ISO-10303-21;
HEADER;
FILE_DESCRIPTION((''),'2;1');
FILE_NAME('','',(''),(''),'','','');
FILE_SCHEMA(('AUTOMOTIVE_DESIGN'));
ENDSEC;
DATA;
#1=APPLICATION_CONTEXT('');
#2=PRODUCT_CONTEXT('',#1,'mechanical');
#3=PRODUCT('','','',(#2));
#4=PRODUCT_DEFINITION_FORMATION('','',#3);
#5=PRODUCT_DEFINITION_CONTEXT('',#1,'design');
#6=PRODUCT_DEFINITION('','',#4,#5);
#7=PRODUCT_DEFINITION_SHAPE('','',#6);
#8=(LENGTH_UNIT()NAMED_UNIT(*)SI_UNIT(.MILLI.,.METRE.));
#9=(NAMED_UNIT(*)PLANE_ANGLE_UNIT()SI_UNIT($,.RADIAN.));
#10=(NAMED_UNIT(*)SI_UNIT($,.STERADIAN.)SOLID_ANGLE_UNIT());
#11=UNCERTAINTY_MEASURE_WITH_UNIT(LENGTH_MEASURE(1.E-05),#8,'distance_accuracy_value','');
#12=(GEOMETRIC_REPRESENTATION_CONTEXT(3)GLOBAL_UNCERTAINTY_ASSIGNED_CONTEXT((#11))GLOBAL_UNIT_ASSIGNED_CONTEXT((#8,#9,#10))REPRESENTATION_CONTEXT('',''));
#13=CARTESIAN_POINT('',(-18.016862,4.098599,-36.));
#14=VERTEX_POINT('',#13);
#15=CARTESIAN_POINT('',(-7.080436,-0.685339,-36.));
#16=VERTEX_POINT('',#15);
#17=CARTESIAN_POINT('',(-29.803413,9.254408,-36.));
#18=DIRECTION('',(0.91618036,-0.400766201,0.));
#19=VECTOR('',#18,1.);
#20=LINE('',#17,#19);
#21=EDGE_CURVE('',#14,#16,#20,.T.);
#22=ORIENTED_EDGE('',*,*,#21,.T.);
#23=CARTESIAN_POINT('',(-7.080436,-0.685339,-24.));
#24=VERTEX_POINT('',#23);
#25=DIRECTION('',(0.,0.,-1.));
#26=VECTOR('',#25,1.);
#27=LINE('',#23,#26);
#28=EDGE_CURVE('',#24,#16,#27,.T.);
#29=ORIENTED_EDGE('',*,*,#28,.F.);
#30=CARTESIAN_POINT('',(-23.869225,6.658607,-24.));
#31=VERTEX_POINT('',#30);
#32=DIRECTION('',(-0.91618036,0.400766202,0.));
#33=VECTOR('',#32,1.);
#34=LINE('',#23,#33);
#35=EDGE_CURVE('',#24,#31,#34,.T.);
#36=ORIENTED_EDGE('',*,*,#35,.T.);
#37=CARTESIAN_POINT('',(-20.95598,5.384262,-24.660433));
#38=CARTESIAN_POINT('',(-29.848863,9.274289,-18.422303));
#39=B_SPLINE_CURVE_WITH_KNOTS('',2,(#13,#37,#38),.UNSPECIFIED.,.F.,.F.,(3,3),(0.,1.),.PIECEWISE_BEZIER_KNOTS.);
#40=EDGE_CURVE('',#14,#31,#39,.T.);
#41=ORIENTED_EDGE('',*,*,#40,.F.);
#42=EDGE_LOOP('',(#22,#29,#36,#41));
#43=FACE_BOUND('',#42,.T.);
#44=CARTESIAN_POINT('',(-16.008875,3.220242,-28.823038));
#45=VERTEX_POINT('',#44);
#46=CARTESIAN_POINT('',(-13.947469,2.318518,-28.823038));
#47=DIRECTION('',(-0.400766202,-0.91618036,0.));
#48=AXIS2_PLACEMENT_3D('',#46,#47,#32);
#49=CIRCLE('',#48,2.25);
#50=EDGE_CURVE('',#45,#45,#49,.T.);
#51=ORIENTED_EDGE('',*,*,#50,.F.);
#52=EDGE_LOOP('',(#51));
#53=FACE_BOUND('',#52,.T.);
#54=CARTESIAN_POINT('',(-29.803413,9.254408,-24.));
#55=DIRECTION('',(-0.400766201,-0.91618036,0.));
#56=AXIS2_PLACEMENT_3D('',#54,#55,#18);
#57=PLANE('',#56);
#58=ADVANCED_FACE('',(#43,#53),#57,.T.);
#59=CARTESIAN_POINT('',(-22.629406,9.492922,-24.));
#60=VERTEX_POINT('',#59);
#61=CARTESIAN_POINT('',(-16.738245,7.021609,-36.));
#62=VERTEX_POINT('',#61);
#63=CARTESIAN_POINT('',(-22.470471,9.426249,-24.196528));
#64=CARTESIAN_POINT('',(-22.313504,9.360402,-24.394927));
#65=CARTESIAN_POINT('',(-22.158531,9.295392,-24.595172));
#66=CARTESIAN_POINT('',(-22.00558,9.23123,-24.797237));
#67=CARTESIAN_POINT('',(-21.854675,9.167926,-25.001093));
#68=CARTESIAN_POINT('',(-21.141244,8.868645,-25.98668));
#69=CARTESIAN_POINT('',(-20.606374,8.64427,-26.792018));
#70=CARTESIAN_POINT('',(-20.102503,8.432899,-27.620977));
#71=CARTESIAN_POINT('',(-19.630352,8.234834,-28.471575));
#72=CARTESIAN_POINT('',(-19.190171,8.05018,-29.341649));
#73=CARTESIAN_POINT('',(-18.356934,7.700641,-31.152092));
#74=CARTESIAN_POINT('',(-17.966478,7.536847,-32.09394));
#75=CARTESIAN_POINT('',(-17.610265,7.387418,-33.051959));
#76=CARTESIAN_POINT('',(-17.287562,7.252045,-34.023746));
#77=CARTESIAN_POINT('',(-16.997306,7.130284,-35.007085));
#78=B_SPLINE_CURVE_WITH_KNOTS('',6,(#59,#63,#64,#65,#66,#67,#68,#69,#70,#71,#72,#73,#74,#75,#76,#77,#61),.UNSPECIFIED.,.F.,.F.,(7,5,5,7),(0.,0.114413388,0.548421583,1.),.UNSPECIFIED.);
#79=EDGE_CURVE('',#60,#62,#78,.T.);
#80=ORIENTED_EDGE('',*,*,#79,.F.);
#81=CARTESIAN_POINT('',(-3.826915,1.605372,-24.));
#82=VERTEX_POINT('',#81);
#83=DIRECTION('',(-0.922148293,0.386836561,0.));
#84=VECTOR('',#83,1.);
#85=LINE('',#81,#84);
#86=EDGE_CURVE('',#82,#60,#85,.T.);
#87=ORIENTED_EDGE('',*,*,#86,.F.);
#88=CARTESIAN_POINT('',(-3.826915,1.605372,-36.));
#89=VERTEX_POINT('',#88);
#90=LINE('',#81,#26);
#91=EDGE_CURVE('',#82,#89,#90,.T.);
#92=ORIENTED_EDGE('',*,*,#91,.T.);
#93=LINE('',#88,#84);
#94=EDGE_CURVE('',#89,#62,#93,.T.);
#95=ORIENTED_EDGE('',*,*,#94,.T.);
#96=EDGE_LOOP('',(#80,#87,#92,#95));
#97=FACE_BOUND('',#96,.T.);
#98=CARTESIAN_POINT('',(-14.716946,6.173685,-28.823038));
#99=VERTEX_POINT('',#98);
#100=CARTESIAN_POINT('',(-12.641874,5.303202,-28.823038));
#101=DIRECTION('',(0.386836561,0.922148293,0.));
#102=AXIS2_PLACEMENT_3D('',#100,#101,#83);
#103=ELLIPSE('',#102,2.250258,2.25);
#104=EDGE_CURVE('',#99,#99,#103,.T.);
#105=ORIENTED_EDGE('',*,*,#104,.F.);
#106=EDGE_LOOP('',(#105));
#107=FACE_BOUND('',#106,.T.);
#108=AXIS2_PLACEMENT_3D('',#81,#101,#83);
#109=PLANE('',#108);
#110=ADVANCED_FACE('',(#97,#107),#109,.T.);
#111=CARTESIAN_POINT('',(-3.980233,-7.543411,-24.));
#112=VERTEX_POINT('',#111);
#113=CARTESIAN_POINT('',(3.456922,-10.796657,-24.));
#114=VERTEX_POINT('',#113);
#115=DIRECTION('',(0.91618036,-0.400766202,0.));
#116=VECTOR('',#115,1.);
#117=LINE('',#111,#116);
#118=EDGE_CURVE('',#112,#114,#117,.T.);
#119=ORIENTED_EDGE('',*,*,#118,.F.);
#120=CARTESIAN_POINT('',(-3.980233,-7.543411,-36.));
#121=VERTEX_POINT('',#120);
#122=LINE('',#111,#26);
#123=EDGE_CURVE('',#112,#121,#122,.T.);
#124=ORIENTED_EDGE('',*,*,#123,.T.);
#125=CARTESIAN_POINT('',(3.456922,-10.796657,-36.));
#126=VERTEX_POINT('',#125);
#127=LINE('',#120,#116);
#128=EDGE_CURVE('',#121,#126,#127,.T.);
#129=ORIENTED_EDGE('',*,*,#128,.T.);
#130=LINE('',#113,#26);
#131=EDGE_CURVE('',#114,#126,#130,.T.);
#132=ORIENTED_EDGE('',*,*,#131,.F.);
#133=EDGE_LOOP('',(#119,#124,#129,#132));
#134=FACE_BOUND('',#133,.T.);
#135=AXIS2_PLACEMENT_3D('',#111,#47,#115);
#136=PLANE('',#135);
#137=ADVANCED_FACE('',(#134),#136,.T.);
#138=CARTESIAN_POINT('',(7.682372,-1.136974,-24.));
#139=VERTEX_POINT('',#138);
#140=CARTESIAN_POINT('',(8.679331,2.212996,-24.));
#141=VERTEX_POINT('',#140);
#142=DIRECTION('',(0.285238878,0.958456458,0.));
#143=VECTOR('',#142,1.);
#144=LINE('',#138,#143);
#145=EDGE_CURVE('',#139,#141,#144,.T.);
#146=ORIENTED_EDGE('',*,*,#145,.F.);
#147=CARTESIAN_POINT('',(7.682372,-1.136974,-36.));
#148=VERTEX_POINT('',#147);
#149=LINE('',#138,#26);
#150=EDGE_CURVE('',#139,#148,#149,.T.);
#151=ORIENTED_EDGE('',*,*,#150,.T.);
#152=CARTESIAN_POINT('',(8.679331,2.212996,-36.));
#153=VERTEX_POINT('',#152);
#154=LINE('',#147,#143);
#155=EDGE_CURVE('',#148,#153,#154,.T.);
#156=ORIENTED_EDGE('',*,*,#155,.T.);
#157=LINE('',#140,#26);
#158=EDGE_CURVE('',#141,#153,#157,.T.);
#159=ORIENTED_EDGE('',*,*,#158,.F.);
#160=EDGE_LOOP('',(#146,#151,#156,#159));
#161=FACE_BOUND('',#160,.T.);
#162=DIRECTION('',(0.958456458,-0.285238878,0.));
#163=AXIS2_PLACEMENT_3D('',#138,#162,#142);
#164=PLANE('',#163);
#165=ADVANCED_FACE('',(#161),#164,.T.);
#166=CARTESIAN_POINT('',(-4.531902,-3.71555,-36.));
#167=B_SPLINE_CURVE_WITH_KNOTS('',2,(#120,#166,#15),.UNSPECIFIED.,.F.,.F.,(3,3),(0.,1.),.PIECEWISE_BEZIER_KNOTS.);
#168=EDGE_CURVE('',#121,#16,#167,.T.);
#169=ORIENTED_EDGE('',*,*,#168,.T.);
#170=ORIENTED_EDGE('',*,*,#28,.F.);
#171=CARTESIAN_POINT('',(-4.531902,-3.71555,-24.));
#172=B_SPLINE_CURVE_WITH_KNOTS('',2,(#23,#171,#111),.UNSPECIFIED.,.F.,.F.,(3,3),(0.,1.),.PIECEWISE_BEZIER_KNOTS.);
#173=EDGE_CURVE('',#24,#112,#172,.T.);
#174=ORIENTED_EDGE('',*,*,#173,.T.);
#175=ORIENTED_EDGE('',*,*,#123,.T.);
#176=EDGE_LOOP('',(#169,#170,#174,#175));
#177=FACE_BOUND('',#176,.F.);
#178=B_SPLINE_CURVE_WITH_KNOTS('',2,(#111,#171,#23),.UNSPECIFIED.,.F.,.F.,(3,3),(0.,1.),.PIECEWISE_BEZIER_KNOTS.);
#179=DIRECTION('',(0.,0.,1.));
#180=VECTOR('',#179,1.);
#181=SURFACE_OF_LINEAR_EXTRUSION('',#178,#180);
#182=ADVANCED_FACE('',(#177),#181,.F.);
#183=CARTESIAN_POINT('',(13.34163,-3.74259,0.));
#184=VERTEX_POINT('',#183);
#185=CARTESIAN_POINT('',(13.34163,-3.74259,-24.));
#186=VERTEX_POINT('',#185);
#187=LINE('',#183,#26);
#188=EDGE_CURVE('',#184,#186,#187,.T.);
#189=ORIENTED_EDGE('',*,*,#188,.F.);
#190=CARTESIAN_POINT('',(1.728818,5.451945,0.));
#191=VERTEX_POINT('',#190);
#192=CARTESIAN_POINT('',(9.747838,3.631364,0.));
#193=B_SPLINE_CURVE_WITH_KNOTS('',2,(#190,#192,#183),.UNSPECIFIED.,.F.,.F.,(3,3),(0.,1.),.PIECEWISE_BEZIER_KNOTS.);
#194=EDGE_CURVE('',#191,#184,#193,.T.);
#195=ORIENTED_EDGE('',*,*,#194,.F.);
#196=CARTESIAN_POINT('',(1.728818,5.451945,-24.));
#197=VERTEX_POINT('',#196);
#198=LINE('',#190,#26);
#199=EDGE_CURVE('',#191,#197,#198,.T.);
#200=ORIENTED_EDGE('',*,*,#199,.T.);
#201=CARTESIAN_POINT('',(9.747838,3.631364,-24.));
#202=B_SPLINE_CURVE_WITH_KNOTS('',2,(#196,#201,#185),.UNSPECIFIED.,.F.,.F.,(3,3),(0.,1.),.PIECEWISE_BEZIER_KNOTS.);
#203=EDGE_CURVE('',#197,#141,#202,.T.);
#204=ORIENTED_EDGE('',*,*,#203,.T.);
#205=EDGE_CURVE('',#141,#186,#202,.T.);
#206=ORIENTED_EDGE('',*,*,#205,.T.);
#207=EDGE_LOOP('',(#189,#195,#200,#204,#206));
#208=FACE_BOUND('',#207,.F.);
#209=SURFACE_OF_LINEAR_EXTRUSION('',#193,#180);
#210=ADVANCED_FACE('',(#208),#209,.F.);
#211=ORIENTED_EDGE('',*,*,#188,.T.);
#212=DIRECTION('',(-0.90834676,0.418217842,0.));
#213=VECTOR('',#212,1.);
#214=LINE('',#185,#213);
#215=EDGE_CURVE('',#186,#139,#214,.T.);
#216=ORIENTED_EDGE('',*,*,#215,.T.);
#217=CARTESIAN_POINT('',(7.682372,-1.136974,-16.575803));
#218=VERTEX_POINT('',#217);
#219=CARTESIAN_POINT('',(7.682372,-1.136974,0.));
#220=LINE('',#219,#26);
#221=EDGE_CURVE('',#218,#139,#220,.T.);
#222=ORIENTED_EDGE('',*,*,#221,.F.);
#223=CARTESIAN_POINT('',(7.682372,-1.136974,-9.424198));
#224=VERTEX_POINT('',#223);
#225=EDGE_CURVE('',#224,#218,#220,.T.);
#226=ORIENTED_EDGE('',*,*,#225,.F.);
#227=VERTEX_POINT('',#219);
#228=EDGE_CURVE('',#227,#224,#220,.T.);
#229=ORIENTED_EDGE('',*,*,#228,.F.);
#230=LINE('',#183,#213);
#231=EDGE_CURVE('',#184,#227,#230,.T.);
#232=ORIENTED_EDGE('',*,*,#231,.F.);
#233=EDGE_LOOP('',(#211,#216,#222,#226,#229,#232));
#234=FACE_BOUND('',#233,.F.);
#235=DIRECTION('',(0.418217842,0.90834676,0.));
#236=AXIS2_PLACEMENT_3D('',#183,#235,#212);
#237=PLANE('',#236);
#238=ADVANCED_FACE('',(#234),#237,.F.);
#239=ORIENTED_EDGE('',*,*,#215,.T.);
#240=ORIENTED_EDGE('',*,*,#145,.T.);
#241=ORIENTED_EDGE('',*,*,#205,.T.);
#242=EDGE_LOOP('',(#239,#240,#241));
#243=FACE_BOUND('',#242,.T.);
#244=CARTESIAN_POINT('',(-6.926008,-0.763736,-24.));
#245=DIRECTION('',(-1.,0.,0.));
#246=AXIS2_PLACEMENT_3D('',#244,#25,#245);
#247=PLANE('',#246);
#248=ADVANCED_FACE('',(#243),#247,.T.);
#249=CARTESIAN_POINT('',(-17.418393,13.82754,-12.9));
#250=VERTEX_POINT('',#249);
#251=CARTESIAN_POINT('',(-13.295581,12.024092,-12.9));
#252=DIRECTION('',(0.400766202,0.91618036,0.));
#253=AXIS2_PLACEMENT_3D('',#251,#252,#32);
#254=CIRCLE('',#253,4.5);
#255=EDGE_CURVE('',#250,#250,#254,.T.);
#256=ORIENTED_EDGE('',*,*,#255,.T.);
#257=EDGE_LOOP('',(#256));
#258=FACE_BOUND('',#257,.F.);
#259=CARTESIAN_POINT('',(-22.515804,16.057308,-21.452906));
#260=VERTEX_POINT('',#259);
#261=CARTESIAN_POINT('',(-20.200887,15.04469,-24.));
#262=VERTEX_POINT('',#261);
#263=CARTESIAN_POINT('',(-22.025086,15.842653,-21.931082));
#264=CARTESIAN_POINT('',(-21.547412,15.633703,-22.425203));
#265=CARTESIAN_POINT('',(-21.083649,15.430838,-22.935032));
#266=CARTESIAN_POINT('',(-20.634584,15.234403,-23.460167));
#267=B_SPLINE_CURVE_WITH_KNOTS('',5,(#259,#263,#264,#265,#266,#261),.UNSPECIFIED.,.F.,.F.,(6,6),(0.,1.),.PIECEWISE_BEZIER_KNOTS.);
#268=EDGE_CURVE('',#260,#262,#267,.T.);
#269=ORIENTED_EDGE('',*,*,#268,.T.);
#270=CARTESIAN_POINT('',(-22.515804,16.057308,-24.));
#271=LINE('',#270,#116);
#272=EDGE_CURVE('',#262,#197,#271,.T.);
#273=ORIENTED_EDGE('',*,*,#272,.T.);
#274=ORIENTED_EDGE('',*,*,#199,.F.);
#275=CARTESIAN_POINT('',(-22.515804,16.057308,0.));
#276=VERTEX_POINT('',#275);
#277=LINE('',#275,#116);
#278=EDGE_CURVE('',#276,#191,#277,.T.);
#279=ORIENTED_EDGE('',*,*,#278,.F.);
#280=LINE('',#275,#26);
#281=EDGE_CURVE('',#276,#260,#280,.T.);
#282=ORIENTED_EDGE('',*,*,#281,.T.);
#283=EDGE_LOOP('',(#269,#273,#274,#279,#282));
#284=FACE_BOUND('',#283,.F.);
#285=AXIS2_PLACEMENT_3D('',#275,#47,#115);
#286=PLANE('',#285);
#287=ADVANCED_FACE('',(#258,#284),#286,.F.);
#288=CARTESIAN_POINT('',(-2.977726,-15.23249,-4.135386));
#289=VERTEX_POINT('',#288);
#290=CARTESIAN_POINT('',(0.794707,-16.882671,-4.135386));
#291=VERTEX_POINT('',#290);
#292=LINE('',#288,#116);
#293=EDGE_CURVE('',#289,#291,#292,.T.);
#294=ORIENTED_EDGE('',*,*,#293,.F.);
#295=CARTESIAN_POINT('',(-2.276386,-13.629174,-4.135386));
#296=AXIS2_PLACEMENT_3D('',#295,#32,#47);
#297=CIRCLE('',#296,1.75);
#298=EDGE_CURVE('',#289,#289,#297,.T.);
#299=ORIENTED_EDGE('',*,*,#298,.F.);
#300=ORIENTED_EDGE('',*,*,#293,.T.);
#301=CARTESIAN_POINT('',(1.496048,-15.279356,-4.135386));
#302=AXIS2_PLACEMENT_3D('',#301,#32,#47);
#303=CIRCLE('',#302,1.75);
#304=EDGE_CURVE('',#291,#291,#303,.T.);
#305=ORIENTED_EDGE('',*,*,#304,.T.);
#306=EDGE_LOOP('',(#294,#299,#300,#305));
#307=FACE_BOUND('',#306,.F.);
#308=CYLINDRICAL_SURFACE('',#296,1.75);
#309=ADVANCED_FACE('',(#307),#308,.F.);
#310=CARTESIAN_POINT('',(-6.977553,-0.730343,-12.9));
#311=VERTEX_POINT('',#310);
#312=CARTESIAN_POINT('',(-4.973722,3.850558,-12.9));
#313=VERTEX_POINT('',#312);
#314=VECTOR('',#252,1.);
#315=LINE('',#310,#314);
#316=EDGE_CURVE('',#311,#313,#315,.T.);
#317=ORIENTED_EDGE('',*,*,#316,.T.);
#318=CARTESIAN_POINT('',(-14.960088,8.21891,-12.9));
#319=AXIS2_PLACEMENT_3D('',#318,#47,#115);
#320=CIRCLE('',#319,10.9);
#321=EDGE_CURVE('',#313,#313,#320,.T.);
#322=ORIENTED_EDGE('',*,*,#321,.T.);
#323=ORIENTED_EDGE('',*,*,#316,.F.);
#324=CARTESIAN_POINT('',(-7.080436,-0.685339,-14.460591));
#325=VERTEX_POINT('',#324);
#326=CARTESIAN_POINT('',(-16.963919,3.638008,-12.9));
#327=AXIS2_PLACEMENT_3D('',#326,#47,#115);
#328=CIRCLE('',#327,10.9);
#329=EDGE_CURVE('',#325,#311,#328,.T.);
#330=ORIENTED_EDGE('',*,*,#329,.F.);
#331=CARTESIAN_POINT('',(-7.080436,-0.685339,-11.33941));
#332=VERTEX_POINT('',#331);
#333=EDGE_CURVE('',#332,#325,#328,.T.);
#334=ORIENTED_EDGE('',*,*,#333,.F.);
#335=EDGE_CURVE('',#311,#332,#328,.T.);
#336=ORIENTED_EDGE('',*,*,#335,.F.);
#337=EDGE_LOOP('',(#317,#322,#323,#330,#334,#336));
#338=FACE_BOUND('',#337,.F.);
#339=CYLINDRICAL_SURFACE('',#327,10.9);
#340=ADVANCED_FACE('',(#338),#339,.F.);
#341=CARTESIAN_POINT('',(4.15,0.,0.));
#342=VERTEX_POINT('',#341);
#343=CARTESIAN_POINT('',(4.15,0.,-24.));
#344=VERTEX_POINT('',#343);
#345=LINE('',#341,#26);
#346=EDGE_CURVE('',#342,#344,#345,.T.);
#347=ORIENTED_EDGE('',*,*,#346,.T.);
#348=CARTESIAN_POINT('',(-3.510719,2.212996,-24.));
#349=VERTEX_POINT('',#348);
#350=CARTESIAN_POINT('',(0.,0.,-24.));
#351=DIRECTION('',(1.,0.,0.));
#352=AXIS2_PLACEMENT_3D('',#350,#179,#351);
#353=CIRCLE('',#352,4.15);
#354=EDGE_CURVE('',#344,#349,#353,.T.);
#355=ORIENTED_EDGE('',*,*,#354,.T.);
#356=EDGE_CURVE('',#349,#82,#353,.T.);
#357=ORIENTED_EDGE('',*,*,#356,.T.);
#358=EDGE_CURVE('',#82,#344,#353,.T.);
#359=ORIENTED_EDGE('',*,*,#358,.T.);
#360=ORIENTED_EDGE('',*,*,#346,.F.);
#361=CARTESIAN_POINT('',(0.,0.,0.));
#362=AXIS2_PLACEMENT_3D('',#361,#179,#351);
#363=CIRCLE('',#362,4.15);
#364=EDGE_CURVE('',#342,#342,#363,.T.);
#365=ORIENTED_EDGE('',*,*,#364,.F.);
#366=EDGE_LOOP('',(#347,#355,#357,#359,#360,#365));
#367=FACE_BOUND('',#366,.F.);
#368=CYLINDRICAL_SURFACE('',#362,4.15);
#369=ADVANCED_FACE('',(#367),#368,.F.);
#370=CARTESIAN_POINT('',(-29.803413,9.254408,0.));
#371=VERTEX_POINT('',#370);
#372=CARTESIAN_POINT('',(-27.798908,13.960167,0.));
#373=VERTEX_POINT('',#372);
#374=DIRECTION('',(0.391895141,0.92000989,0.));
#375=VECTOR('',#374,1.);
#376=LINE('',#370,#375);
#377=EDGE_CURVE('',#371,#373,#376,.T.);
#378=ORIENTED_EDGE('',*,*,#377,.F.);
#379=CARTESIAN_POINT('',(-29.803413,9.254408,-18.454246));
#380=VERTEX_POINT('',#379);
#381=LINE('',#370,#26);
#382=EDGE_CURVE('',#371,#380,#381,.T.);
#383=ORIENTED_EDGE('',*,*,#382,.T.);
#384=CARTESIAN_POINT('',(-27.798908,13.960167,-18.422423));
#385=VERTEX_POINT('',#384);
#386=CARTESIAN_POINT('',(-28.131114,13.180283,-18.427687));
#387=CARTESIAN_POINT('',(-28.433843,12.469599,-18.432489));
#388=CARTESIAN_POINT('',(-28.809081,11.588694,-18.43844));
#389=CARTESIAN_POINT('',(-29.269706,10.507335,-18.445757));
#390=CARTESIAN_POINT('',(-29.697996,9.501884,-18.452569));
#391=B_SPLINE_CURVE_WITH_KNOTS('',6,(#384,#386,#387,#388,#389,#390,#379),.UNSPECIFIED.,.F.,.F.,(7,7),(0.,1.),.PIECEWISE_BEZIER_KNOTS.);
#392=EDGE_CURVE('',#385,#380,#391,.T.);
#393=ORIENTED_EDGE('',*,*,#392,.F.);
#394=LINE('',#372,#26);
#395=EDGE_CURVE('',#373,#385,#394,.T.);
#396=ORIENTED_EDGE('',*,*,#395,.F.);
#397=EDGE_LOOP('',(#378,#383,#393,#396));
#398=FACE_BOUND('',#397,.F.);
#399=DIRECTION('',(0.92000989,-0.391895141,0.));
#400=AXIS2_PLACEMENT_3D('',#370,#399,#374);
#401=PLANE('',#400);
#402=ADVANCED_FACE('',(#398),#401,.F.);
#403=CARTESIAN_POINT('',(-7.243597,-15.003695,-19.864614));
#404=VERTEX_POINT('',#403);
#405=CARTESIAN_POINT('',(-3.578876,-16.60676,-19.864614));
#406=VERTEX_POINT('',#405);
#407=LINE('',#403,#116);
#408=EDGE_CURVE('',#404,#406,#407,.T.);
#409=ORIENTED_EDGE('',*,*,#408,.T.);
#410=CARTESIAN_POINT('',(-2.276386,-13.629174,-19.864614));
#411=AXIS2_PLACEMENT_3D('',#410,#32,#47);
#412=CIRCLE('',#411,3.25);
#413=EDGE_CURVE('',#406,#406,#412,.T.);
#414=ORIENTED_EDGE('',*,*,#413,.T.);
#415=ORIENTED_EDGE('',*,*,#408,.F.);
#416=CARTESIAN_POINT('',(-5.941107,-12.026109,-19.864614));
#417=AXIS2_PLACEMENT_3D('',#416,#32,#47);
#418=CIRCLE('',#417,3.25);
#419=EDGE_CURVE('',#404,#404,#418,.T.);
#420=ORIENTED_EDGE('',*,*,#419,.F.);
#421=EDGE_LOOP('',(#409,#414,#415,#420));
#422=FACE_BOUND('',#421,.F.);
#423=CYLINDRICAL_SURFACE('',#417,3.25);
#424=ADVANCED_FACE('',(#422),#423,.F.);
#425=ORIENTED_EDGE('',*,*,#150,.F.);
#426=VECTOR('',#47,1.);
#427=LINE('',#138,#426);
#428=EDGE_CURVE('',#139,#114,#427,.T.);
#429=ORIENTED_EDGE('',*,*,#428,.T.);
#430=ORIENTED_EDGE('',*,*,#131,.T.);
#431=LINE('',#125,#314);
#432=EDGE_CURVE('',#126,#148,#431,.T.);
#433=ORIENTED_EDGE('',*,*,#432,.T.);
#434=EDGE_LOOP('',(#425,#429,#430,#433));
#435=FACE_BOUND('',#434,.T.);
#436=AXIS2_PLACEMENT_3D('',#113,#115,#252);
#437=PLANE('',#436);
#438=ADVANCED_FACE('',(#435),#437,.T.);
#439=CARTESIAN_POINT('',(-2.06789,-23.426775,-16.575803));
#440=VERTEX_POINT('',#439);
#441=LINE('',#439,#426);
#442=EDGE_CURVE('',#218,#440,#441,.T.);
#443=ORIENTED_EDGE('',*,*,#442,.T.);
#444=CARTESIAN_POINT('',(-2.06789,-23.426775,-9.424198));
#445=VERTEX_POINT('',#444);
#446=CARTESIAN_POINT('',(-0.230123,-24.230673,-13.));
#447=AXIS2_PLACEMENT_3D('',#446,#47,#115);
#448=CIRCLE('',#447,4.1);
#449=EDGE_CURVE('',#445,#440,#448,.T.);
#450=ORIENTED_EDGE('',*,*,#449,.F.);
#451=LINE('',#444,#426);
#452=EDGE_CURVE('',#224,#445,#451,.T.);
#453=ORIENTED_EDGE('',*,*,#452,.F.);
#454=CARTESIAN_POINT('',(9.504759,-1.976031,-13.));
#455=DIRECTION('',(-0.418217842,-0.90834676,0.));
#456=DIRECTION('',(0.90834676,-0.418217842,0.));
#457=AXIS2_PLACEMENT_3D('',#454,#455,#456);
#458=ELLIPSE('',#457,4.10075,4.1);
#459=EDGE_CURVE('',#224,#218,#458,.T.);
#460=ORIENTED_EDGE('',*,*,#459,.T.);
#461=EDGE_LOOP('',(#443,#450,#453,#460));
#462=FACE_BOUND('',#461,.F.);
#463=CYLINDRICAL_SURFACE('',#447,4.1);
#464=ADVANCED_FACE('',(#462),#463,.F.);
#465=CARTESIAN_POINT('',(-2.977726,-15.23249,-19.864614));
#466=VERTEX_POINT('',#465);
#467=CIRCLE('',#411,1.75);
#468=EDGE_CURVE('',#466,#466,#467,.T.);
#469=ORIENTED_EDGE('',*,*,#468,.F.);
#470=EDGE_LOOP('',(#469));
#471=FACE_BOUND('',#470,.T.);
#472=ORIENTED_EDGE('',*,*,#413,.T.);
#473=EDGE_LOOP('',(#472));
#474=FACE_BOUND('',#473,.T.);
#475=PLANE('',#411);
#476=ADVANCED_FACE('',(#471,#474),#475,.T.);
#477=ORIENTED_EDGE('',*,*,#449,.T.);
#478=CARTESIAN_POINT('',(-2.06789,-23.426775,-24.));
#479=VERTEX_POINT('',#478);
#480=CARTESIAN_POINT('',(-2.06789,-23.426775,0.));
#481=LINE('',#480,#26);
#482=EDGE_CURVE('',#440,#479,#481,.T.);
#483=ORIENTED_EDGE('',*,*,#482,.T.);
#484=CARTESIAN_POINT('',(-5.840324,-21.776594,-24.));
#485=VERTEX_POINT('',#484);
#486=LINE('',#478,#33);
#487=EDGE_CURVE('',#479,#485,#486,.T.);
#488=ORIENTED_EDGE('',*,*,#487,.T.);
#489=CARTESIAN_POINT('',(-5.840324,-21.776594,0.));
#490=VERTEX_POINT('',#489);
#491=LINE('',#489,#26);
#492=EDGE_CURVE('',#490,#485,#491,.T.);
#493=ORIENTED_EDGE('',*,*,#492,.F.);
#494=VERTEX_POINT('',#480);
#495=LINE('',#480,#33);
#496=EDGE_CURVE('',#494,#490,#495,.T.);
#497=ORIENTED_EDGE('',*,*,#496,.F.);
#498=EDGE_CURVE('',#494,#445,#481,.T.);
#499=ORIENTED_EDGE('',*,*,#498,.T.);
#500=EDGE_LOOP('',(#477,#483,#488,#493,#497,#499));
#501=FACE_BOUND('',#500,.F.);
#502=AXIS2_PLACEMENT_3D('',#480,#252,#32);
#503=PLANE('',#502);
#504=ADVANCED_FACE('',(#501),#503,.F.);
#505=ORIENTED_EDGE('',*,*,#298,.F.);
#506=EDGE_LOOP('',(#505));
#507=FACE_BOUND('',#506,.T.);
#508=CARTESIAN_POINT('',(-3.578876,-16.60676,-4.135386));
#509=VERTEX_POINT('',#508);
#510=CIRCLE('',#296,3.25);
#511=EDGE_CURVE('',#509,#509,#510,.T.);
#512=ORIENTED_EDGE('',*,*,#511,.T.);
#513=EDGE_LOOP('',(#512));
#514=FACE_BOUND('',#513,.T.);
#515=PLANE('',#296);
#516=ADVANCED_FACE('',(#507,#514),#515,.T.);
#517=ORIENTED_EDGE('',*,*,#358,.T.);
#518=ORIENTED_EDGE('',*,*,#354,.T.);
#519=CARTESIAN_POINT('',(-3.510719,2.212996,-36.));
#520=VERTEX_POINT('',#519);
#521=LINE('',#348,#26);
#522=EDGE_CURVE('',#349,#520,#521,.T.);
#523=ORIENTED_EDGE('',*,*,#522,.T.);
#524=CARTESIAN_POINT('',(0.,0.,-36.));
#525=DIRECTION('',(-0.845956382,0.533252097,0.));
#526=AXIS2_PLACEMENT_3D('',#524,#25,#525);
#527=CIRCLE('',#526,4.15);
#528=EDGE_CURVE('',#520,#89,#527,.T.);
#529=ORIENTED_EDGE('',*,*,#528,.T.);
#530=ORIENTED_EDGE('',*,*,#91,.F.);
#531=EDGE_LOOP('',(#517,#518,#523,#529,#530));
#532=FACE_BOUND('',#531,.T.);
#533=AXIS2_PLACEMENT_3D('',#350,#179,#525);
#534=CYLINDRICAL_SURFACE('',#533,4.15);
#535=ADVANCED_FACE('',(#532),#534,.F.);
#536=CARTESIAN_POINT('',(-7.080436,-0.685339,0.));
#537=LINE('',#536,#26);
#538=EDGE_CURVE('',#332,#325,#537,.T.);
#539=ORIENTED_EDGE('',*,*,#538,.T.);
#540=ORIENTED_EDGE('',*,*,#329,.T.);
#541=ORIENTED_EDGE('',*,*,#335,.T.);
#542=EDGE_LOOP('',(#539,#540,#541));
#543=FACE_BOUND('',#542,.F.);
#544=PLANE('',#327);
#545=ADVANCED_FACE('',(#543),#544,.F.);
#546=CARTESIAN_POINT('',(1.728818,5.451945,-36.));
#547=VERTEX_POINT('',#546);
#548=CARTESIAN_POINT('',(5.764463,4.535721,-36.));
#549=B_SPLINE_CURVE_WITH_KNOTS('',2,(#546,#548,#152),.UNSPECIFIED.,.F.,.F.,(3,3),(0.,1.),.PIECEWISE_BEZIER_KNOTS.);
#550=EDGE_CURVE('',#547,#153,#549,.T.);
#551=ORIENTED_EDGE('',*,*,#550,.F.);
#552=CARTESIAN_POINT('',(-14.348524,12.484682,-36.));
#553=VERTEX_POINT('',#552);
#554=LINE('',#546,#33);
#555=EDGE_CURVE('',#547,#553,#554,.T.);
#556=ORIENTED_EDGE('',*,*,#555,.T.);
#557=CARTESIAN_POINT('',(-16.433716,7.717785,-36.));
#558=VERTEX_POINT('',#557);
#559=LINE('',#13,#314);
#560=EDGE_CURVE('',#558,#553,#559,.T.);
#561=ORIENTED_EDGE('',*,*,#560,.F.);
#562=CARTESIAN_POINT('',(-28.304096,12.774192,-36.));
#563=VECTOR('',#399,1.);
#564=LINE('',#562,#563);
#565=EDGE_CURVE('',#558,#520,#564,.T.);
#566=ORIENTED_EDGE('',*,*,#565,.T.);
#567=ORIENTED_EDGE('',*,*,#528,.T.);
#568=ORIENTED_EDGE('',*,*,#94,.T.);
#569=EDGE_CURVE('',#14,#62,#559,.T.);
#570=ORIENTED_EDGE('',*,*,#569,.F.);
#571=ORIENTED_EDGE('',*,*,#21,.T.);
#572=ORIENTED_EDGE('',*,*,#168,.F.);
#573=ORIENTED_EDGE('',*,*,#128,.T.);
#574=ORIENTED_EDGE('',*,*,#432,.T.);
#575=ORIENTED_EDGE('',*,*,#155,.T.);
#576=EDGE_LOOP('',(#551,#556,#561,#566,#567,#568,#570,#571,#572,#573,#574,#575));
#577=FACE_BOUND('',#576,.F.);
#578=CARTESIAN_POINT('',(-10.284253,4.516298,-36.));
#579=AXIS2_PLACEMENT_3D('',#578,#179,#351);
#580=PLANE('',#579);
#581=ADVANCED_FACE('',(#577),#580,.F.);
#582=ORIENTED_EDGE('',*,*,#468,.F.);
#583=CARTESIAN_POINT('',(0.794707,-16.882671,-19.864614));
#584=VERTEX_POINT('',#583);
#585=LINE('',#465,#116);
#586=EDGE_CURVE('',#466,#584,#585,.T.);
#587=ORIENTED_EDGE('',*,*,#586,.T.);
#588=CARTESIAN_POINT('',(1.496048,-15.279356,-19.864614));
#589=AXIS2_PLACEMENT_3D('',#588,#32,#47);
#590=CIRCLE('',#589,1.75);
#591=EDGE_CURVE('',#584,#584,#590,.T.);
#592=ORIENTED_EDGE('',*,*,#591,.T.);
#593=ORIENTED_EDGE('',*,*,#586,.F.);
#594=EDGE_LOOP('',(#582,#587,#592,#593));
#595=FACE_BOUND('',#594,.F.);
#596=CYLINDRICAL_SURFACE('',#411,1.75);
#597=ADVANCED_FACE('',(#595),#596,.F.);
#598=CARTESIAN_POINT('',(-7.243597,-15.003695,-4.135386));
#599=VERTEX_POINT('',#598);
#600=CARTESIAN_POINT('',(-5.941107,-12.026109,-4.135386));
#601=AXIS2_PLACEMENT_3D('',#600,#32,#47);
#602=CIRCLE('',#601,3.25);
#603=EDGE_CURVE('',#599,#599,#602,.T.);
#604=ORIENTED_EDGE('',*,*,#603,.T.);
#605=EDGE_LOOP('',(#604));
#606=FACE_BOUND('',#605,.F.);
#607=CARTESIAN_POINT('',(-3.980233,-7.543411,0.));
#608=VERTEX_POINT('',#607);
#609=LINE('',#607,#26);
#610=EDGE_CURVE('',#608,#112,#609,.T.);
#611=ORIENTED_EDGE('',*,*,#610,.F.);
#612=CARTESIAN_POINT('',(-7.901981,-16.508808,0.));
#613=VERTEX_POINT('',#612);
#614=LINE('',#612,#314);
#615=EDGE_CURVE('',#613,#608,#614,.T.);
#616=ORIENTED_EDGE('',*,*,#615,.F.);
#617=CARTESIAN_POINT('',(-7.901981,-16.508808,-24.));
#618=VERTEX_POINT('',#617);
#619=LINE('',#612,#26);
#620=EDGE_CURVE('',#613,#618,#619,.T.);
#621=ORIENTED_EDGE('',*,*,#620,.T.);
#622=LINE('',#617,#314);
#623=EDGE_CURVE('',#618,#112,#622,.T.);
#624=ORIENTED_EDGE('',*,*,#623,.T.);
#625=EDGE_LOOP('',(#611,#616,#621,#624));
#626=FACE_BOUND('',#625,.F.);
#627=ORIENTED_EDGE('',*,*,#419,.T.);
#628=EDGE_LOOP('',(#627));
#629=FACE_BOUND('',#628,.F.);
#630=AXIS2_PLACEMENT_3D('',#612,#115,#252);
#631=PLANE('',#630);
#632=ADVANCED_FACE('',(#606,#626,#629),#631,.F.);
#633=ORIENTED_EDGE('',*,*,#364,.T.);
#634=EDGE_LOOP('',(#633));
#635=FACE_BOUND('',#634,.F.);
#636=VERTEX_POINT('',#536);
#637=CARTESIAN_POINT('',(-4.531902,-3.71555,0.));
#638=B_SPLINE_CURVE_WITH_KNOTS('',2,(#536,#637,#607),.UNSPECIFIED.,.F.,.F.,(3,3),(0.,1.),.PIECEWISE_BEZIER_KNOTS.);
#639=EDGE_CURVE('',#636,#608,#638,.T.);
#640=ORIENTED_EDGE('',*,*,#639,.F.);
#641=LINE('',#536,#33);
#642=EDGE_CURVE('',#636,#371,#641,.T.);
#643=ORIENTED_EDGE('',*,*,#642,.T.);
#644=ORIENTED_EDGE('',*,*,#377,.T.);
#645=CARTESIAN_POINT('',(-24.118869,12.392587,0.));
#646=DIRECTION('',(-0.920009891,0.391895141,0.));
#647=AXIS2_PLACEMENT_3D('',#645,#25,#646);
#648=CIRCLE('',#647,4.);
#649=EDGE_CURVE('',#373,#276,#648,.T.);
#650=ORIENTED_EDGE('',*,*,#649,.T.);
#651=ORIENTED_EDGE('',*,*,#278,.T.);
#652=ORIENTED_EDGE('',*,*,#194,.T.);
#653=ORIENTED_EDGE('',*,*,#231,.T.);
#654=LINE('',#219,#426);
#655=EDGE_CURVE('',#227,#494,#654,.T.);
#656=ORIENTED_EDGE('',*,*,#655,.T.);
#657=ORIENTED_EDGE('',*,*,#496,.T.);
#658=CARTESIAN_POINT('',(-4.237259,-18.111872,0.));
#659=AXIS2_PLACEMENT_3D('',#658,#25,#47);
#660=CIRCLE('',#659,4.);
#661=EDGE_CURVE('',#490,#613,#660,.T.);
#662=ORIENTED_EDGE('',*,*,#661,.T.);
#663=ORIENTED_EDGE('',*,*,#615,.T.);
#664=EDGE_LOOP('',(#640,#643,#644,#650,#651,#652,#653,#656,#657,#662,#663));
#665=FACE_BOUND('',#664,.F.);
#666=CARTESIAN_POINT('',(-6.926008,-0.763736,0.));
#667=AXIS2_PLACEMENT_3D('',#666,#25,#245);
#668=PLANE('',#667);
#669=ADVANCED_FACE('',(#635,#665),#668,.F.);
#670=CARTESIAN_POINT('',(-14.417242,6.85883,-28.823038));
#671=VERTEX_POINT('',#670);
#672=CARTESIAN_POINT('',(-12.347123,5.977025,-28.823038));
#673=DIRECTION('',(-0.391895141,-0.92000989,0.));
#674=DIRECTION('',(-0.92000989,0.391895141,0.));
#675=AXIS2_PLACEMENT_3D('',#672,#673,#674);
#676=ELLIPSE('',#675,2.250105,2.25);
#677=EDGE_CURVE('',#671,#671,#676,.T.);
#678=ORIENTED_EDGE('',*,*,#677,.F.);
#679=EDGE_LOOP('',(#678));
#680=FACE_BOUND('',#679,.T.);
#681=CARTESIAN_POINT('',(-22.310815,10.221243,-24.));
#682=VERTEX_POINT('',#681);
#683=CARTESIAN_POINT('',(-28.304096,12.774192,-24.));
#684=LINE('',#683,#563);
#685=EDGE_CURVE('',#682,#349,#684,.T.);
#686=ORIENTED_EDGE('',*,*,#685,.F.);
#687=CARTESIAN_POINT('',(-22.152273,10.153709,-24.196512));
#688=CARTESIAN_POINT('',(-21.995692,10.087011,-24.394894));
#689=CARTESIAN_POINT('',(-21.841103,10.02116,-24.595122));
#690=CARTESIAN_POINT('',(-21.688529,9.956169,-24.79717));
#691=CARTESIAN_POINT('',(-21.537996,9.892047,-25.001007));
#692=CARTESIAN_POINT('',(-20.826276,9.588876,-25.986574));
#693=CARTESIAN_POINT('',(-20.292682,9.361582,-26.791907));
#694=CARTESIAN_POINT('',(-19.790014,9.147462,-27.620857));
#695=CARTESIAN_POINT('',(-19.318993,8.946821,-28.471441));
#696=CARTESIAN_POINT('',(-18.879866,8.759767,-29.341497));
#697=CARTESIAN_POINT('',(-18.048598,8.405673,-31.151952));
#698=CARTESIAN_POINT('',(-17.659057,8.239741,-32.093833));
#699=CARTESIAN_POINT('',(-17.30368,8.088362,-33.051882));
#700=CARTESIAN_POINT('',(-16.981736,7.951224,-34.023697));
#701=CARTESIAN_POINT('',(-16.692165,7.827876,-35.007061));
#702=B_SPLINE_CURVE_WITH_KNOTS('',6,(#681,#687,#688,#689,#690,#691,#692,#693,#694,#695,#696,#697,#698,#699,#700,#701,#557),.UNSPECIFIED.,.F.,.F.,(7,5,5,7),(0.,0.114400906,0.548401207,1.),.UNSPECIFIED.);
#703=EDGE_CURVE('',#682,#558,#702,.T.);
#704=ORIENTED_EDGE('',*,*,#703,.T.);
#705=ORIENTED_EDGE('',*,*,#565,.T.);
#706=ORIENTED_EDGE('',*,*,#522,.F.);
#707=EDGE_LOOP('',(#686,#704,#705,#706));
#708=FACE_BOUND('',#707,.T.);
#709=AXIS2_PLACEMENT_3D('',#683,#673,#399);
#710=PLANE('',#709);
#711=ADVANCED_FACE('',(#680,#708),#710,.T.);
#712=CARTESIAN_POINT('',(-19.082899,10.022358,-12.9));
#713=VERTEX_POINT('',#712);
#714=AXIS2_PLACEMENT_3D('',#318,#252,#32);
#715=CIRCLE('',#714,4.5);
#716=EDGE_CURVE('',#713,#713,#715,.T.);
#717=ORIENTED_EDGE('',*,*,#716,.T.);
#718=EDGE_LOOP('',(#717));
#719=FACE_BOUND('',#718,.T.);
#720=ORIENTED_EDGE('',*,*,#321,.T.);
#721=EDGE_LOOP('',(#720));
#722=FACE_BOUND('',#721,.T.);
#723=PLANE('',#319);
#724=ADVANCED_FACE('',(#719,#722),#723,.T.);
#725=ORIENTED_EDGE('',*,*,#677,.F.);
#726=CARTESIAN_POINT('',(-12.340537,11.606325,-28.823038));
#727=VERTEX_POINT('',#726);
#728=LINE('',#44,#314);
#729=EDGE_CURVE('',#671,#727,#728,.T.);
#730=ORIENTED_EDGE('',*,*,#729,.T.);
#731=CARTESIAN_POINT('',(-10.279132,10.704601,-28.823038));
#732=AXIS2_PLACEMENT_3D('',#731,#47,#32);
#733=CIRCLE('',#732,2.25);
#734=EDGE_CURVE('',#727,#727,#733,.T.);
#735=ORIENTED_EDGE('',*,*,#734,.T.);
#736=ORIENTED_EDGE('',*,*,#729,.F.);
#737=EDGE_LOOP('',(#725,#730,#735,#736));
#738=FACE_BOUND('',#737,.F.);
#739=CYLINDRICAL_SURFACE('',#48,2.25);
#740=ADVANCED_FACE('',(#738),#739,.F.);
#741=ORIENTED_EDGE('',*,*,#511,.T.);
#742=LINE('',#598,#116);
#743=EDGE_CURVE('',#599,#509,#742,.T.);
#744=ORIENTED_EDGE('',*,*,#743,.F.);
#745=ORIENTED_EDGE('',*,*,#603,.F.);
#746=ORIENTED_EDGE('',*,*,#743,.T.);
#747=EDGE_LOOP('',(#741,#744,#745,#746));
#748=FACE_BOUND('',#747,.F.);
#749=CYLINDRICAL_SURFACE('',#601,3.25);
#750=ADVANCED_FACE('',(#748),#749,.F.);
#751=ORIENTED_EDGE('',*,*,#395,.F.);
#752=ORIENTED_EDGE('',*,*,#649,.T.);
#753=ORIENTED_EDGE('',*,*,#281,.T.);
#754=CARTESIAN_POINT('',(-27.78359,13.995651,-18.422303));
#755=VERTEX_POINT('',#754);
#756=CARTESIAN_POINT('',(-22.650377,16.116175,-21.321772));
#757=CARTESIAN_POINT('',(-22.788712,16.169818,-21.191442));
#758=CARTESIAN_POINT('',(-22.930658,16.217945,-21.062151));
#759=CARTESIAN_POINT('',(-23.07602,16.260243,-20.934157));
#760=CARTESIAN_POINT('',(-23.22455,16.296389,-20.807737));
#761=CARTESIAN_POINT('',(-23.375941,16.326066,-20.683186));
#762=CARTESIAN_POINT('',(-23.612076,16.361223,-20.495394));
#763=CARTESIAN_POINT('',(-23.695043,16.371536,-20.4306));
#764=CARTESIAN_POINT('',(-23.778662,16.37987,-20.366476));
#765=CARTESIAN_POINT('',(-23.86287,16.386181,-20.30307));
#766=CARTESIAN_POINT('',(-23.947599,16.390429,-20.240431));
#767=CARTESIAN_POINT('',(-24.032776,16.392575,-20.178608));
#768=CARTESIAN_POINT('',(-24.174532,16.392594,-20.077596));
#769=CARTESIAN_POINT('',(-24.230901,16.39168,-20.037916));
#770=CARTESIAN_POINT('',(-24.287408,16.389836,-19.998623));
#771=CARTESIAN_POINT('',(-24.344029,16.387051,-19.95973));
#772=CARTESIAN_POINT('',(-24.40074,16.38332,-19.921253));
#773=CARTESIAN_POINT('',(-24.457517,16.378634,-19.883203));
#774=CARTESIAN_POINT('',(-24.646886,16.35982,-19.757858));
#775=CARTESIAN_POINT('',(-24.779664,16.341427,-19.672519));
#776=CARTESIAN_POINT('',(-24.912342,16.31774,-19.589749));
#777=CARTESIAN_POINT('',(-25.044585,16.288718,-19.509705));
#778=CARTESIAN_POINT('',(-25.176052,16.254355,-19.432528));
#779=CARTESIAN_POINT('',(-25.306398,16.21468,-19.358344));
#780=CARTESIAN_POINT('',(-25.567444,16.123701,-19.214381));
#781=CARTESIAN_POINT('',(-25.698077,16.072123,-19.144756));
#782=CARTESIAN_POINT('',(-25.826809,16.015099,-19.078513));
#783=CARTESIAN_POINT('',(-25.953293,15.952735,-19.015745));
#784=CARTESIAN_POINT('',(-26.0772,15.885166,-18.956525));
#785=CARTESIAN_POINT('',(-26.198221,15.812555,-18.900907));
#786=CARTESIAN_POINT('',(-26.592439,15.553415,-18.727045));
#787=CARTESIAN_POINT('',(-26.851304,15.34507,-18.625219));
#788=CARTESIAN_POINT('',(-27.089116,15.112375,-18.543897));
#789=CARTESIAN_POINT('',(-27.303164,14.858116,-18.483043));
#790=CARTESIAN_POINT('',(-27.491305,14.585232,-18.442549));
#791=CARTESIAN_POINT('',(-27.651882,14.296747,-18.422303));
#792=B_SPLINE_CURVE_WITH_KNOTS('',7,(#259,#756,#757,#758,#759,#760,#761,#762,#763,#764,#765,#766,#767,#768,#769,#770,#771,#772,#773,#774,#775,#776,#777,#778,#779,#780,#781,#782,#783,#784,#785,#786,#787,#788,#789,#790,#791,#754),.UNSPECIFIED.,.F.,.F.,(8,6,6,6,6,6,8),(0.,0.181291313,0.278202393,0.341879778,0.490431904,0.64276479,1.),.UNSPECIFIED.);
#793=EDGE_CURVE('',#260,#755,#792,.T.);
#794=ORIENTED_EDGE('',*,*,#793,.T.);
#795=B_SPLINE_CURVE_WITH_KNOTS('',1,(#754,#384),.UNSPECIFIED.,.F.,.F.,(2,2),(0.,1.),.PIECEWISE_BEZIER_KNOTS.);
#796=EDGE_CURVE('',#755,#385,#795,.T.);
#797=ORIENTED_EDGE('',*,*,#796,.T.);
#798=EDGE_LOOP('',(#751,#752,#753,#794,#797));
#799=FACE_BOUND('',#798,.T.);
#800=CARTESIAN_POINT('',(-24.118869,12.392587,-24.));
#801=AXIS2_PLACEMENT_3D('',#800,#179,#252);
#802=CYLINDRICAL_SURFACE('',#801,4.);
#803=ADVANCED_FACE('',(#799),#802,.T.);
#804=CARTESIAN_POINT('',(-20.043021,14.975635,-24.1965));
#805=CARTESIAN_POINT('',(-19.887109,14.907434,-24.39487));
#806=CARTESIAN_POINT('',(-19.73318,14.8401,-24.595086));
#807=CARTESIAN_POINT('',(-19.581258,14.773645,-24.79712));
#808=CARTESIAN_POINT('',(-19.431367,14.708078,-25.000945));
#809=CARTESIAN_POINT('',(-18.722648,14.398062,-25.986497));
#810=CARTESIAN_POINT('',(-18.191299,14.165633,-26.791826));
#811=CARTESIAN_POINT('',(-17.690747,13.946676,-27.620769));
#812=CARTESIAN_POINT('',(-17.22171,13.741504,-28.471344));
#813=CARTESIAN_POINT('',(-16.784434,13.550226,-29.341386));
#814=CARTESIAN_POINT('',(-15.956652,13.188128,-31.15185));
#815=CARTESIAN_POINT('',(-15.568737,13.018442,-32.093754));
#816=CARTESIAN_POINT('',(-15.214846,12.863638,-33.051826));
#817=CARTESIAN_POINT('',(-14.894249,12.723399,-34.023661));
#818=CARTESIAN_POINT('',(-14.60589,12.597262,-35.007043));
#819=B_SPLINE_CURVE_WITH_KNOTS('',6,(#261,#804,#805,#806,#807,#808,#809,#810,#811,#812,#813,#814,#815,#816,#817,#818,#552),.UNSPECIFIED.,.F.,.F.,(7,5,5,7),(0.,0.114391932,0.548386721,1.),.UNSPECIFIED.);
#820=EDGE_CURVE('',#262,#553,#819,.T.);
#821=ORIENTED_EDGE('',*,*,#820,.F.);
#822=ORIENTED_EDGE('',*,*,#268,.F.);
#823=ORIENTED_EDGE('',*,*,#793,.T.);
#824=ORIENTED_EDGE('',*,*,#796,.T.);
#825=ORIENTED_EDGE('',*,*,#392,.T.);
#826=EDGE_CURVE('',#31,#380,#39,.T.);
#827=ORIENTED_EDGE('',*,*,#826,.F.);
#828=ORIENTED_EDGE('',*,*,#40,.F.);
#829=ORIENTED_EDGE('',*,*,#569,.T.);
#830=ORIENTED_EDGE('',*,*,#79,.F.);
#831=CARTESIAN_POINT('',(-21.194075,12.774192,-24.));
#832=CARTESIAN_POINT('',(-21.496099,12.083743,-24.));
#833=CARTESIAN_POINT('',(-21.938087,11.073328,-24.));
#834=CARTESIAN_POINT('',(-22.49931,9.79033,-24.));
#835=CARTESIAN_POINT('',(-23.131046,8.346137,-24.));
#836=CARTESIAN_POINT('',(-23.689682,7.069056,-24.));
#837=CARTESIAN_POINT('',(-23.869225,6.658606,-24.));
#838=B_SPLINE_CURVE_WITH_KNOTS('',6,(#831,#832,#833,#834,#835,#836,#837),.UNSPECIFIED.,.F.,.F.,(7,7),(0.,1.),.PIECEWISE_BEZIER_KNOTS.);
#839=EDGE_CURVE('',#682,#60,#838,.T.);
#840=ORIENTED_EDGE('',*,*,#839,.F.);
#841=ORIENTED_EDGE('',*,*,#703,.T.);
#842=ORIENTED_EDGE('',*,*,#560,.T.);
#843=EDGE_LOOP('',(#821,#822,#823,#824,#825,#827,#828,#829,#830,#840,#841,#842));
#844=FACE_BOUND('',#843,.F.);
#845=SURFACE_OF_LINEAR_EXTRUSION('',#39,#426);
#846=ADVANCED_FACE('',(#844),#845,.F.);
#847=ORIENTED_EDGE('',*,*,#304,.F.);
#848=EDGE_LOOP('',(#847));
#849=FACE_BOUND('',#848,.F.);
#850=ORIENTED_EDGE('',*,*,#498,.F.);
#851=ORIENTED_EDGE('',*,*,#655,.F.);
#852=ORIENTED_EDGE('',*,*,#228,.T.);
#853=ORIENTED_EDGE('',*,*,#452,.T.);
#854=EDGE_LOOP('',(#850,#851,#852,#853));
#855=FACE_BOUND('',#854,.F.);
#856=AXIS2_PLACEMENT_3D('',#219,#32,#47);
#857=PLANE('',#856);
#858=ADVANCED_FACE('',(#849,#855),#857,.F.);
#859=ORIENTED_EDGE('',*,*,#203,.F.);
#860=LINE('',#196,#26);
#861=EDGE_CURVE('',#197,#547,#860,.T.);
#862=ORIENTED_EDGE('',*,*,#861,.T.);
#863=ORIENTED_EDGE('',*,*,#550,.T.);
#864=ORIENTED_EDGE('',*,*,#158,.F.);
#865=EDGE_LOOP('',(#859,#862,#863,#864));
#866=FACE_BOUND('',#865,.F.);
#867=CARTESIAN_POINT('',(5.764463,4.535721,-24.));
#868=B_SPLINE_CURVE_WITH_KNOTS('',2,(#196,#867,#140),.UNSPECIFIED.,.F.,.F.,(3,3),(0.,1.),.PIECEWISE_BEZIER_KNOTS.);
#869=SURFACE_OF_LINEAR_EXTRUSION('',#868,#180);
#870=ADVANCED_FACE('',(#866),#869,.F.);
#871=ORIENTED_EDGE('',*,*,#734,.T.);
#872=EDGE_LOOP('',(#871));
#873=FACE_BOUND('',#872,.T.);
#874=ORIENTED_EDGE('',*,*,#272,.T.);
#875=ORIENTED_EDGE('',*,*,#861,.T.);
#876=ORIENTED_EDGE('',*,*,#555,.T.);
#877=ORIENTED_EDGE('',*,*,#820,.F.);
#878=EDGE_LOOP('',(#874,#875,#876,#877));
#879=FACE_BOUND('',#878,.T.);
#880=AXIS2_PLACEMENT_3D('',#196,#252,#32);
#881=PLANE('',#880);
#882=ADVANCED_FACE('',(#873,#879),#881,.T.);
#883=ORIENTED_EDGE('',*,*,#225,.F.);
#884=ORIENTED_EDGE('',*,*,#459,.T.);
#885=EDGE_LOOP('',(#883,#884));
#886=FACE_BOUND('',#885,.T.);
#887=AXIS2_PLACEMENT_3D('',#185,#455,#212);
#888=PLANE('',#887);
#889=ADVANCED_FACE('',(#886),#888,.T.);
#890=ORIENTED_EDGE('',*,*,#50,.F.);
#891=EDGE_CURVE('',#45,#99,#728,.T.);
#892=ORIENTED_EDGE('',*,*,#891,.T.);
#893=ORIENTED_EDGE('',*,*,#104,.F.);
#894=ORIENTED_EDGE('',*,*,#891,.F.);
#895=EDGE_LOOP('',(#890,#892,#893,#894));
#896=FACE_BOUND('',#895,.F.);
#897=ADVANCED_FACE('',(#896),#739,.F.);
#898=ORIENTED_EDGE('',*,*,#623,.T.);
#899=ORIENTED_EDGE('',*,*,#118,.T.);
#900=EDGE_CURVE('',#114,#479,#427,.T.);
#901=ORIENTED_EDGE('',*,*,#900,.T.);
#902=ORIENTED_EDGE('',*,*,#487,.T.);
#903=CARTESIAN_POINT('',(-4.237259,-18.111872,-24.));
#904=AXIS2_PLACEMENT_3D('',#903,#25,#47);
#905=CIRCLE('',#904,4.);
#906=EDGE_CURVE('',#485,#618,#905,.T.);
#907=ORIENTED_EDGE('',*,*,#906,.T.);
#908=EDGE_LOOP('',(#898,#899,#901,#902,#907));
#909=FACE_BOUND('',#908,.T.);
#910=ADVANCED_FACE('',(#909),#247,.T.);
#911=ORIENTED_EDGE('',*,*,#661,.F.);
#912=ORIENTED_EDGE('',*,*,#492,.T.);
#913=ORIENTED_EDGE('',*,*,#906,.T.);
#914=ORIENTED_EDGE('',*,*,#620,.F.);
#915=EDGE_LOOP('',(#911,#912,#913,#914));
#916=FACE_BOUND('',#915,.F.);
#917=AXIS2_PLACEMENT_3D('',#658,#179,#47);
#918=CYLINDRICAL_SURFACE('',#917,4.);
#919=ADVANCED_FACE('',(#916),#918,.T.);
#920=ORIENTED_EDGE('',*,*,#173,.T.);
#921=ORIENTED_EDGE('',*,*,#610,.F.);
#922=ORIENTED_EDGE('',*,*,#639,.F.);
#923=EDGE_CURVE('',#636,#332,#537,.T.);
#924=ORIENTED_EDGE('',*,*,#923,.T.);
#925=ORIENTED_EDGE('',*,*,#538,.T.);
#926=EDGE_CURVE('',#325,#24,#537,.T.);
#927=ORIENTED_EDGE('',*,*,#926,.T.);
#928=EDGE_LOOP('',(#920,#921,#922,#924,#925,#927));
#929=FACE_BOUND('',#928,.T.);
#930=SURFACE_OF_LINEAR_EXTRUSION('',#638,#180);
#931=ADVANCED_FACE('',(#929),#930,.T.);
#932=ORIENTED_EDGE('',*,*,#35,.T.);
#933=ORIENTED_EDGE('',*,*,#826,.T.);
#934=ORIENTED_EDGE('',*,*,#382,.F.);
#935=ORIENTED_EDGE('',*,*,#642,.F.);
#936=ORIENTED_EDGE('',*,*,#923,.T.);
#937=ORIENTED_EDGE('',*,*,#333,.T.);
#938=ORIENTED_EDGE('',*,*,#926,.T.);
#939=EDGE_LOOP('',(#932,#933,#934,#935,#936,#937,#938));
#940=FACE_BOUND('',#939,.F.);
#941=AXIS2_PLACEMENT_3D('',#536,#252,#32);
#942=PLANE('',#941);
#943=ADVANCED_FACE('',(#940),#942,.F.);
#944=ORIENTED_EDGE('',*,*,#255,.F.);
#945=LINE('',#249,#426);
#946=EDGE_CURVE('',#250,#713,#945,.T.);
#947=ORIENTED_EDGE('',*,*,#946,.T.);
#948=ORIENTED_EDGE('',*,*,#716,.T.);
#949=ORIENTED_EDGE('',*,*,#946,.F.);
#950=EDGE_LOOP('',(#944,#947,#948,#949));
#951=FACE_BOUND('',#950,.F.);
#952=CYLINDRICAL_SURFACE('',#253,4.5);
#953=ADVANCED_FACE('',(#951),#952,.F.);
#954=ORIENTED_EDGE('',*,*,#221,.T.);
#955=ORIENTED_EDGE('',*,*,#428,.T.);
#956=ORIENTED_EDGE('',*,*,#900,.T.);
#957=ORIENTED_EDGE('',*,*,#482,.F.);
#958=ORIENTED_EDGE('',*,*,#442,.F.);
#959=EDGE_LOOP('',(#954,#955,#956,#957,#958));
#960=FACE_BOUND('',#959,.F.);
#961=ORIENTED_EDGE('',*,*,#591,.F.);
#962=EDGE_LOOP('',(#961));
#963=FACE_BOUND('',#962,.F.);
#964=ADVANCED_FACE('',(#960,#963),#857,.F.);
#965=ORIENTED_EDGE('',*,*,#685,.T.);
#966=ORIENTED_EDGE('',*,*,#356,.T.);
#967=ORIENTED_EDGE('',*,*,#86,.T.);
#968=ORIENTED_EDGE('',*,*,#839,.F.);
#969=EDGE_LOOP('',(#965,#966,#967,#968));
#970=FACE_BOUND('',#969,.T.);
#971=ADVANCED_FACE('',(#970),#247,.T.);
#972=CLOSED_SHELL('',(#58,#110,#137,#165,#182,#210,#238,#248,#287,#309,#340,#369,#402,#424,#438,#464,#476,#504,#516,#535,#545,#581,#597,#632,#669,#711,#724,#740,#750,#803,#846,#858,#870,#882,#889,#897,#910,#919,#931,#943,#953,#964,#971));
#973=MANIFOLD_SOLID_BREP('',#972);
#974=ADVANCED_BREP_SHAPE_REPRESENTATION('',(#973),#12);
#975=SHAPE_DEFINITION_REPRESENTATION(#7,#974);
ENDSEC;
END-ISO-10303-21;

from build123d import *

# Parameters (mm, degrees)
SKETCH1_R           = 4.15
BOSS_EXTRUDE1_DEPTH = 24
BOSS_EXTRUDE2_DEPTH = 12
SKETCH4_R           = 2.25
CUT_EXTRUDE1_DEPTH  = 51.135027226
CUT_EXTRUDE2_DEPTH  = 51.135027226
SKETCH6_R           = 10.9
CUT_EXTRUDE3_DEPTH  = 5
SKETCH7_R           = 4.5
CUT_EXTRUDE4_DEPTH  = 5
CUT_EXTRUDE5_REACH  = 58.104
SKETCH8_R           = 4.1
SKETCH10_R          = 3.25
CUT_EXTRUDE6_DEPTH  = 4
SKETCH11_R          = 1.75
CUT_EXTRUDE7_DEPTH  = 14


with BuildPart() as part:
    # Sketch1 → Boss-Extrude1 (new body)
    with BuildSketch(Plane.XY):
        with BuildLine():
            Line((13.341629993, -3.742589758), (7.682372306, -1.136974107))
            Line((7.682372306, -1.136974107), (-2.0678902, -23.426775412))
            Line((-2.0678902, -23.426775412), (-5.840324092, -21.776593778))
            ThreePointArc((-5.840324092, -21.776593778), (-7.962146661, -19.569683724), (-7.901980723, -16.508807532))
            Line((-7.901980723, -16.508807532), (-3.98023327, -7.54341081))
            add(Edge.make_bspline(
                [(-7.080436324, -0.68533899), (-4.531901983, -3.715550368), (-3.98023327, -7.54341081)],
                knots=[0, 0, 0, 1, 1, 1], degree=2))
            Line((-7.080436324, -0.68533899), (-29.803412918, 9.254408057))
            Line((-29.803412918, 9.254408057), (-27.798908258, 13.960167121))
            ThreePointArc((-27.798908258, 13.960167121), (-25.594658653, 16.110387521), (-22.515803889, 16.057307996))
            Line((-22.515803889, 16.057307996), (1.72881799, 5.451945282))
            add(Edge.make_bspline(
                [(1.72881799, 5.451945282), (9.747838199, 3.631364235), (13.341629993, -3.742589758)],
                knots=[0, 0, 0, 1, 1, 1], degree=2))
        make_face()
        Circle(SKETCH1_R, mode=Mode.SUBTRACT)
    extrude(amount=-BOSS_EXTRUDE1_DEPTH)

    # Sketch3 → Boss-Extrude2 (add)
    with BuildSketch(Plane(origin=(0, 0, -24), x_dir=(-1, 0, 0), z_dir=(0, 0, -1))):
        with BuildLine():
            Line((-7.682372306, -1.136974107), (-8.679331285, 2.212996201))
            add(Edge.make_bspline(
                [(-1.728818003, 5.451945279), (-5.764462803, 4.535721319), (-8.679331285, 2.212996201)],
                knots=[0, 0, 0, 1, 1, 1], degree=2))
            Line((-1.728818003, 5.451945279), (22.515803889, 16.057307996))
            ThreePointArc((22.515803889, 16.057307996), (25.594658653, 16.110387521), (27.798908258, 13.960167121))
            Line((27.798908258, 13.960167121), (28.304096394, 12.774191506))
            Line((28.304096394, 12.774191506), (3.510718988, 2.212996201))
            ThreePointArc((3.510718988, 2.212996201), (-3.681374953, -1.915718783), (3.826915418, 1.605371728))
            Line((3.826915418, 1.605371728), (28.62962492, 12.009983349))
            Line((28.62962492, 12.009983349), (29.803412918, 9.254408057))
            Line((29.803412918, 9.254408057), (7.080436358, -0.685338949))
            add(Edge.make_bspline(
                [(3.98023327, -7.54341081), (4.531901987, -3.715550342), (7.080436358, -0.685338949)],
                knots=[0, 0, 0, 1, 1, 1], degree=2))
            Line((3.98023327, -7.54341081), (-3.456922061, -10.796657252))
            Line((-3.456922061, -10.796657252), (-7.682372306, -1.136974107))
        make_face()
    extrude(amount=BOSS_EXTRUDE2_DEPTH)

    # Sketch4 → Cut-Extrude1 (cut, through all)
    with BuildSketch(Plane(origin=(-1.388852746, -3.17501726, 0), x_dir=(0.9161803596748023, -0.40076620185109174, 0), z_dir=(-0.4007662018510917, -0.9161803596748022, 0))):
        with Locations(Location((-13.70758094, -28.823038163, 0), (0, 0, 180))):
            Circle(SKETCH4_R)
    extrude(amount=-CUT_EXTRUDE1_DEPTH, mode=Mode.SUBTRACT)

    # Sketch5 → Cut-Extrude2 (cut, through all)
    with BuildSketch(Plane(origin=(-1.388852746, -3.17501726, 0), x_dir=(0.9161803596748023, -0.40076620185109174, 0), z_dir=(-0.4007662018510917, -0.9161803596748022, 0))):
        with BuildLine():
            Line((-18.149274911, -36), (-34.697304605, -37.023423696))
            Line((-34.697304605, -37.023423696), (-31.063763643, -18.422303423))
            add(Edge.make_bspline(
                [(-18.149274911, -36), (-21.35728774, -24.660432841), (-31.063763643, -18.422303423)],
                knots=[0, 0, 0, 1, 1, 1], degree=2))
        make_face()
    extrude(amount=-CUT_EXTRUDE2_DEPTH, mode=Mode.SUBTRACT)

    # Sketch6 → Cut-Extrude3 (cut)
    with BuildSketch(Plane(origin=(-1.388852746, -3.17501726, 0), x_dir=(0.9161803596748023, -0.40076620185109174, 0), z_dir=(-0.4007662018510917, -0.9161803596748022, 0))):
        with Locations((-17, -12.900000194)):
            Circle(SKETCH6_R)
    extrude(amount=-CUT_EXTRUDE3_DEPTH, mode=Mode.SUBTRACT)

    # Sketch7 → Cut-Extrude4 (cut)
    with BuildSketch(Plane(origin=(2.279484819, 5.211066233, 0), x_dir=(0.9161803596748023, -0.40076620185109163, 0), z_dir=(0.40076620185109163, 0.9161803596748023, 0))):
        with Locations(Location((-17, 12.900000194, 0), (0, 0, 180))):
            Circle(SKETCH7_R)
    extrude(amount=-CUT_EXTRUDE4_DEPTH, mode=Mode.SUBTRACT)

    # Cut-Extrude5: up to this plane
    cut_extrude5_end = Plane(origin=(13.341629993, -3.742589758, -24), z_dir=(-0.41821784159009956, -0.9083467603155299, 0))
    # Sketch8 → Cut-Extrude5 (cut, up to the surface)
    with BuildSketch(Plane(origin=(-8.933836899, -20.423393653, 0), x_dir=(0.9161803596748023, -0.4007662018510919, 0), z_dir=(-0.40076620185109185, -0.9161803596748022, 0)), mode=Mode.PRIVATE) as cut_extrude5_sk1:
        with Locations((9.5, -13.000000223)):
            Circle(SKETCH8_R)
    cut_extrude5_tool1 = split(extrude(cut_extrude5_sk1.sketch, amount=-CUT_EXTRUDE5_REACH, mode=Mode.PRIVATE), bisect_by=cut_extrude5_end, keep=Keep.BOTH, mode=Mode.PRIVATE)
    add(cut_extrude5_tool1.solids().sort_by_distance((-0.230123, -24.230673, -13))[0], mode=Mode.SUBTRACT)

    # Sketch10 → Cut-Extrude6 (cut)
    with BuildSketch(Plane(origin=(-0.571208632, 0.249864682, 0), x_dir=(0, 0, 1), z_dir=(-0.9161803596748025, 0.4007662018510913, 0))):
        with Locations(Location((-4.1353862, -13.399079912, 0), (0, 0, 270))):
            Circle(SKETCH10_R)
        with Locations(Location((-19.8646138, -13.399079912, 0), (0, 0, 270))):
            Circle(SKETCH10_R)
    extrude(amount=-CUT_EXTRUDE6_DEPTH, mode=Mode.SUBTRACT)

    # Sketch11 → Cut-Extrude7 (cut)
    with BuildSketch(Plane(origin=(3.093512806, -1.353200126, 0), x_dir=(0, 0, 1), z_dir=(-0.9161803596748025, 0.40076620185109135, 0))):
        with Locations(Location((-4.1353862, -13.399079912, 0), (0, 0, 270))):
            Circle(SKETCH11_R)
        with Locations(Location((-19.8646138, -13.399079912, 0), (0, 0, 270))):
            Circle(SKETCH11_R)
    extrude(amount=-CUT_EXTRUDE7_DEPTH, mode=Mode.SUBTRACT)


solid = part.part
